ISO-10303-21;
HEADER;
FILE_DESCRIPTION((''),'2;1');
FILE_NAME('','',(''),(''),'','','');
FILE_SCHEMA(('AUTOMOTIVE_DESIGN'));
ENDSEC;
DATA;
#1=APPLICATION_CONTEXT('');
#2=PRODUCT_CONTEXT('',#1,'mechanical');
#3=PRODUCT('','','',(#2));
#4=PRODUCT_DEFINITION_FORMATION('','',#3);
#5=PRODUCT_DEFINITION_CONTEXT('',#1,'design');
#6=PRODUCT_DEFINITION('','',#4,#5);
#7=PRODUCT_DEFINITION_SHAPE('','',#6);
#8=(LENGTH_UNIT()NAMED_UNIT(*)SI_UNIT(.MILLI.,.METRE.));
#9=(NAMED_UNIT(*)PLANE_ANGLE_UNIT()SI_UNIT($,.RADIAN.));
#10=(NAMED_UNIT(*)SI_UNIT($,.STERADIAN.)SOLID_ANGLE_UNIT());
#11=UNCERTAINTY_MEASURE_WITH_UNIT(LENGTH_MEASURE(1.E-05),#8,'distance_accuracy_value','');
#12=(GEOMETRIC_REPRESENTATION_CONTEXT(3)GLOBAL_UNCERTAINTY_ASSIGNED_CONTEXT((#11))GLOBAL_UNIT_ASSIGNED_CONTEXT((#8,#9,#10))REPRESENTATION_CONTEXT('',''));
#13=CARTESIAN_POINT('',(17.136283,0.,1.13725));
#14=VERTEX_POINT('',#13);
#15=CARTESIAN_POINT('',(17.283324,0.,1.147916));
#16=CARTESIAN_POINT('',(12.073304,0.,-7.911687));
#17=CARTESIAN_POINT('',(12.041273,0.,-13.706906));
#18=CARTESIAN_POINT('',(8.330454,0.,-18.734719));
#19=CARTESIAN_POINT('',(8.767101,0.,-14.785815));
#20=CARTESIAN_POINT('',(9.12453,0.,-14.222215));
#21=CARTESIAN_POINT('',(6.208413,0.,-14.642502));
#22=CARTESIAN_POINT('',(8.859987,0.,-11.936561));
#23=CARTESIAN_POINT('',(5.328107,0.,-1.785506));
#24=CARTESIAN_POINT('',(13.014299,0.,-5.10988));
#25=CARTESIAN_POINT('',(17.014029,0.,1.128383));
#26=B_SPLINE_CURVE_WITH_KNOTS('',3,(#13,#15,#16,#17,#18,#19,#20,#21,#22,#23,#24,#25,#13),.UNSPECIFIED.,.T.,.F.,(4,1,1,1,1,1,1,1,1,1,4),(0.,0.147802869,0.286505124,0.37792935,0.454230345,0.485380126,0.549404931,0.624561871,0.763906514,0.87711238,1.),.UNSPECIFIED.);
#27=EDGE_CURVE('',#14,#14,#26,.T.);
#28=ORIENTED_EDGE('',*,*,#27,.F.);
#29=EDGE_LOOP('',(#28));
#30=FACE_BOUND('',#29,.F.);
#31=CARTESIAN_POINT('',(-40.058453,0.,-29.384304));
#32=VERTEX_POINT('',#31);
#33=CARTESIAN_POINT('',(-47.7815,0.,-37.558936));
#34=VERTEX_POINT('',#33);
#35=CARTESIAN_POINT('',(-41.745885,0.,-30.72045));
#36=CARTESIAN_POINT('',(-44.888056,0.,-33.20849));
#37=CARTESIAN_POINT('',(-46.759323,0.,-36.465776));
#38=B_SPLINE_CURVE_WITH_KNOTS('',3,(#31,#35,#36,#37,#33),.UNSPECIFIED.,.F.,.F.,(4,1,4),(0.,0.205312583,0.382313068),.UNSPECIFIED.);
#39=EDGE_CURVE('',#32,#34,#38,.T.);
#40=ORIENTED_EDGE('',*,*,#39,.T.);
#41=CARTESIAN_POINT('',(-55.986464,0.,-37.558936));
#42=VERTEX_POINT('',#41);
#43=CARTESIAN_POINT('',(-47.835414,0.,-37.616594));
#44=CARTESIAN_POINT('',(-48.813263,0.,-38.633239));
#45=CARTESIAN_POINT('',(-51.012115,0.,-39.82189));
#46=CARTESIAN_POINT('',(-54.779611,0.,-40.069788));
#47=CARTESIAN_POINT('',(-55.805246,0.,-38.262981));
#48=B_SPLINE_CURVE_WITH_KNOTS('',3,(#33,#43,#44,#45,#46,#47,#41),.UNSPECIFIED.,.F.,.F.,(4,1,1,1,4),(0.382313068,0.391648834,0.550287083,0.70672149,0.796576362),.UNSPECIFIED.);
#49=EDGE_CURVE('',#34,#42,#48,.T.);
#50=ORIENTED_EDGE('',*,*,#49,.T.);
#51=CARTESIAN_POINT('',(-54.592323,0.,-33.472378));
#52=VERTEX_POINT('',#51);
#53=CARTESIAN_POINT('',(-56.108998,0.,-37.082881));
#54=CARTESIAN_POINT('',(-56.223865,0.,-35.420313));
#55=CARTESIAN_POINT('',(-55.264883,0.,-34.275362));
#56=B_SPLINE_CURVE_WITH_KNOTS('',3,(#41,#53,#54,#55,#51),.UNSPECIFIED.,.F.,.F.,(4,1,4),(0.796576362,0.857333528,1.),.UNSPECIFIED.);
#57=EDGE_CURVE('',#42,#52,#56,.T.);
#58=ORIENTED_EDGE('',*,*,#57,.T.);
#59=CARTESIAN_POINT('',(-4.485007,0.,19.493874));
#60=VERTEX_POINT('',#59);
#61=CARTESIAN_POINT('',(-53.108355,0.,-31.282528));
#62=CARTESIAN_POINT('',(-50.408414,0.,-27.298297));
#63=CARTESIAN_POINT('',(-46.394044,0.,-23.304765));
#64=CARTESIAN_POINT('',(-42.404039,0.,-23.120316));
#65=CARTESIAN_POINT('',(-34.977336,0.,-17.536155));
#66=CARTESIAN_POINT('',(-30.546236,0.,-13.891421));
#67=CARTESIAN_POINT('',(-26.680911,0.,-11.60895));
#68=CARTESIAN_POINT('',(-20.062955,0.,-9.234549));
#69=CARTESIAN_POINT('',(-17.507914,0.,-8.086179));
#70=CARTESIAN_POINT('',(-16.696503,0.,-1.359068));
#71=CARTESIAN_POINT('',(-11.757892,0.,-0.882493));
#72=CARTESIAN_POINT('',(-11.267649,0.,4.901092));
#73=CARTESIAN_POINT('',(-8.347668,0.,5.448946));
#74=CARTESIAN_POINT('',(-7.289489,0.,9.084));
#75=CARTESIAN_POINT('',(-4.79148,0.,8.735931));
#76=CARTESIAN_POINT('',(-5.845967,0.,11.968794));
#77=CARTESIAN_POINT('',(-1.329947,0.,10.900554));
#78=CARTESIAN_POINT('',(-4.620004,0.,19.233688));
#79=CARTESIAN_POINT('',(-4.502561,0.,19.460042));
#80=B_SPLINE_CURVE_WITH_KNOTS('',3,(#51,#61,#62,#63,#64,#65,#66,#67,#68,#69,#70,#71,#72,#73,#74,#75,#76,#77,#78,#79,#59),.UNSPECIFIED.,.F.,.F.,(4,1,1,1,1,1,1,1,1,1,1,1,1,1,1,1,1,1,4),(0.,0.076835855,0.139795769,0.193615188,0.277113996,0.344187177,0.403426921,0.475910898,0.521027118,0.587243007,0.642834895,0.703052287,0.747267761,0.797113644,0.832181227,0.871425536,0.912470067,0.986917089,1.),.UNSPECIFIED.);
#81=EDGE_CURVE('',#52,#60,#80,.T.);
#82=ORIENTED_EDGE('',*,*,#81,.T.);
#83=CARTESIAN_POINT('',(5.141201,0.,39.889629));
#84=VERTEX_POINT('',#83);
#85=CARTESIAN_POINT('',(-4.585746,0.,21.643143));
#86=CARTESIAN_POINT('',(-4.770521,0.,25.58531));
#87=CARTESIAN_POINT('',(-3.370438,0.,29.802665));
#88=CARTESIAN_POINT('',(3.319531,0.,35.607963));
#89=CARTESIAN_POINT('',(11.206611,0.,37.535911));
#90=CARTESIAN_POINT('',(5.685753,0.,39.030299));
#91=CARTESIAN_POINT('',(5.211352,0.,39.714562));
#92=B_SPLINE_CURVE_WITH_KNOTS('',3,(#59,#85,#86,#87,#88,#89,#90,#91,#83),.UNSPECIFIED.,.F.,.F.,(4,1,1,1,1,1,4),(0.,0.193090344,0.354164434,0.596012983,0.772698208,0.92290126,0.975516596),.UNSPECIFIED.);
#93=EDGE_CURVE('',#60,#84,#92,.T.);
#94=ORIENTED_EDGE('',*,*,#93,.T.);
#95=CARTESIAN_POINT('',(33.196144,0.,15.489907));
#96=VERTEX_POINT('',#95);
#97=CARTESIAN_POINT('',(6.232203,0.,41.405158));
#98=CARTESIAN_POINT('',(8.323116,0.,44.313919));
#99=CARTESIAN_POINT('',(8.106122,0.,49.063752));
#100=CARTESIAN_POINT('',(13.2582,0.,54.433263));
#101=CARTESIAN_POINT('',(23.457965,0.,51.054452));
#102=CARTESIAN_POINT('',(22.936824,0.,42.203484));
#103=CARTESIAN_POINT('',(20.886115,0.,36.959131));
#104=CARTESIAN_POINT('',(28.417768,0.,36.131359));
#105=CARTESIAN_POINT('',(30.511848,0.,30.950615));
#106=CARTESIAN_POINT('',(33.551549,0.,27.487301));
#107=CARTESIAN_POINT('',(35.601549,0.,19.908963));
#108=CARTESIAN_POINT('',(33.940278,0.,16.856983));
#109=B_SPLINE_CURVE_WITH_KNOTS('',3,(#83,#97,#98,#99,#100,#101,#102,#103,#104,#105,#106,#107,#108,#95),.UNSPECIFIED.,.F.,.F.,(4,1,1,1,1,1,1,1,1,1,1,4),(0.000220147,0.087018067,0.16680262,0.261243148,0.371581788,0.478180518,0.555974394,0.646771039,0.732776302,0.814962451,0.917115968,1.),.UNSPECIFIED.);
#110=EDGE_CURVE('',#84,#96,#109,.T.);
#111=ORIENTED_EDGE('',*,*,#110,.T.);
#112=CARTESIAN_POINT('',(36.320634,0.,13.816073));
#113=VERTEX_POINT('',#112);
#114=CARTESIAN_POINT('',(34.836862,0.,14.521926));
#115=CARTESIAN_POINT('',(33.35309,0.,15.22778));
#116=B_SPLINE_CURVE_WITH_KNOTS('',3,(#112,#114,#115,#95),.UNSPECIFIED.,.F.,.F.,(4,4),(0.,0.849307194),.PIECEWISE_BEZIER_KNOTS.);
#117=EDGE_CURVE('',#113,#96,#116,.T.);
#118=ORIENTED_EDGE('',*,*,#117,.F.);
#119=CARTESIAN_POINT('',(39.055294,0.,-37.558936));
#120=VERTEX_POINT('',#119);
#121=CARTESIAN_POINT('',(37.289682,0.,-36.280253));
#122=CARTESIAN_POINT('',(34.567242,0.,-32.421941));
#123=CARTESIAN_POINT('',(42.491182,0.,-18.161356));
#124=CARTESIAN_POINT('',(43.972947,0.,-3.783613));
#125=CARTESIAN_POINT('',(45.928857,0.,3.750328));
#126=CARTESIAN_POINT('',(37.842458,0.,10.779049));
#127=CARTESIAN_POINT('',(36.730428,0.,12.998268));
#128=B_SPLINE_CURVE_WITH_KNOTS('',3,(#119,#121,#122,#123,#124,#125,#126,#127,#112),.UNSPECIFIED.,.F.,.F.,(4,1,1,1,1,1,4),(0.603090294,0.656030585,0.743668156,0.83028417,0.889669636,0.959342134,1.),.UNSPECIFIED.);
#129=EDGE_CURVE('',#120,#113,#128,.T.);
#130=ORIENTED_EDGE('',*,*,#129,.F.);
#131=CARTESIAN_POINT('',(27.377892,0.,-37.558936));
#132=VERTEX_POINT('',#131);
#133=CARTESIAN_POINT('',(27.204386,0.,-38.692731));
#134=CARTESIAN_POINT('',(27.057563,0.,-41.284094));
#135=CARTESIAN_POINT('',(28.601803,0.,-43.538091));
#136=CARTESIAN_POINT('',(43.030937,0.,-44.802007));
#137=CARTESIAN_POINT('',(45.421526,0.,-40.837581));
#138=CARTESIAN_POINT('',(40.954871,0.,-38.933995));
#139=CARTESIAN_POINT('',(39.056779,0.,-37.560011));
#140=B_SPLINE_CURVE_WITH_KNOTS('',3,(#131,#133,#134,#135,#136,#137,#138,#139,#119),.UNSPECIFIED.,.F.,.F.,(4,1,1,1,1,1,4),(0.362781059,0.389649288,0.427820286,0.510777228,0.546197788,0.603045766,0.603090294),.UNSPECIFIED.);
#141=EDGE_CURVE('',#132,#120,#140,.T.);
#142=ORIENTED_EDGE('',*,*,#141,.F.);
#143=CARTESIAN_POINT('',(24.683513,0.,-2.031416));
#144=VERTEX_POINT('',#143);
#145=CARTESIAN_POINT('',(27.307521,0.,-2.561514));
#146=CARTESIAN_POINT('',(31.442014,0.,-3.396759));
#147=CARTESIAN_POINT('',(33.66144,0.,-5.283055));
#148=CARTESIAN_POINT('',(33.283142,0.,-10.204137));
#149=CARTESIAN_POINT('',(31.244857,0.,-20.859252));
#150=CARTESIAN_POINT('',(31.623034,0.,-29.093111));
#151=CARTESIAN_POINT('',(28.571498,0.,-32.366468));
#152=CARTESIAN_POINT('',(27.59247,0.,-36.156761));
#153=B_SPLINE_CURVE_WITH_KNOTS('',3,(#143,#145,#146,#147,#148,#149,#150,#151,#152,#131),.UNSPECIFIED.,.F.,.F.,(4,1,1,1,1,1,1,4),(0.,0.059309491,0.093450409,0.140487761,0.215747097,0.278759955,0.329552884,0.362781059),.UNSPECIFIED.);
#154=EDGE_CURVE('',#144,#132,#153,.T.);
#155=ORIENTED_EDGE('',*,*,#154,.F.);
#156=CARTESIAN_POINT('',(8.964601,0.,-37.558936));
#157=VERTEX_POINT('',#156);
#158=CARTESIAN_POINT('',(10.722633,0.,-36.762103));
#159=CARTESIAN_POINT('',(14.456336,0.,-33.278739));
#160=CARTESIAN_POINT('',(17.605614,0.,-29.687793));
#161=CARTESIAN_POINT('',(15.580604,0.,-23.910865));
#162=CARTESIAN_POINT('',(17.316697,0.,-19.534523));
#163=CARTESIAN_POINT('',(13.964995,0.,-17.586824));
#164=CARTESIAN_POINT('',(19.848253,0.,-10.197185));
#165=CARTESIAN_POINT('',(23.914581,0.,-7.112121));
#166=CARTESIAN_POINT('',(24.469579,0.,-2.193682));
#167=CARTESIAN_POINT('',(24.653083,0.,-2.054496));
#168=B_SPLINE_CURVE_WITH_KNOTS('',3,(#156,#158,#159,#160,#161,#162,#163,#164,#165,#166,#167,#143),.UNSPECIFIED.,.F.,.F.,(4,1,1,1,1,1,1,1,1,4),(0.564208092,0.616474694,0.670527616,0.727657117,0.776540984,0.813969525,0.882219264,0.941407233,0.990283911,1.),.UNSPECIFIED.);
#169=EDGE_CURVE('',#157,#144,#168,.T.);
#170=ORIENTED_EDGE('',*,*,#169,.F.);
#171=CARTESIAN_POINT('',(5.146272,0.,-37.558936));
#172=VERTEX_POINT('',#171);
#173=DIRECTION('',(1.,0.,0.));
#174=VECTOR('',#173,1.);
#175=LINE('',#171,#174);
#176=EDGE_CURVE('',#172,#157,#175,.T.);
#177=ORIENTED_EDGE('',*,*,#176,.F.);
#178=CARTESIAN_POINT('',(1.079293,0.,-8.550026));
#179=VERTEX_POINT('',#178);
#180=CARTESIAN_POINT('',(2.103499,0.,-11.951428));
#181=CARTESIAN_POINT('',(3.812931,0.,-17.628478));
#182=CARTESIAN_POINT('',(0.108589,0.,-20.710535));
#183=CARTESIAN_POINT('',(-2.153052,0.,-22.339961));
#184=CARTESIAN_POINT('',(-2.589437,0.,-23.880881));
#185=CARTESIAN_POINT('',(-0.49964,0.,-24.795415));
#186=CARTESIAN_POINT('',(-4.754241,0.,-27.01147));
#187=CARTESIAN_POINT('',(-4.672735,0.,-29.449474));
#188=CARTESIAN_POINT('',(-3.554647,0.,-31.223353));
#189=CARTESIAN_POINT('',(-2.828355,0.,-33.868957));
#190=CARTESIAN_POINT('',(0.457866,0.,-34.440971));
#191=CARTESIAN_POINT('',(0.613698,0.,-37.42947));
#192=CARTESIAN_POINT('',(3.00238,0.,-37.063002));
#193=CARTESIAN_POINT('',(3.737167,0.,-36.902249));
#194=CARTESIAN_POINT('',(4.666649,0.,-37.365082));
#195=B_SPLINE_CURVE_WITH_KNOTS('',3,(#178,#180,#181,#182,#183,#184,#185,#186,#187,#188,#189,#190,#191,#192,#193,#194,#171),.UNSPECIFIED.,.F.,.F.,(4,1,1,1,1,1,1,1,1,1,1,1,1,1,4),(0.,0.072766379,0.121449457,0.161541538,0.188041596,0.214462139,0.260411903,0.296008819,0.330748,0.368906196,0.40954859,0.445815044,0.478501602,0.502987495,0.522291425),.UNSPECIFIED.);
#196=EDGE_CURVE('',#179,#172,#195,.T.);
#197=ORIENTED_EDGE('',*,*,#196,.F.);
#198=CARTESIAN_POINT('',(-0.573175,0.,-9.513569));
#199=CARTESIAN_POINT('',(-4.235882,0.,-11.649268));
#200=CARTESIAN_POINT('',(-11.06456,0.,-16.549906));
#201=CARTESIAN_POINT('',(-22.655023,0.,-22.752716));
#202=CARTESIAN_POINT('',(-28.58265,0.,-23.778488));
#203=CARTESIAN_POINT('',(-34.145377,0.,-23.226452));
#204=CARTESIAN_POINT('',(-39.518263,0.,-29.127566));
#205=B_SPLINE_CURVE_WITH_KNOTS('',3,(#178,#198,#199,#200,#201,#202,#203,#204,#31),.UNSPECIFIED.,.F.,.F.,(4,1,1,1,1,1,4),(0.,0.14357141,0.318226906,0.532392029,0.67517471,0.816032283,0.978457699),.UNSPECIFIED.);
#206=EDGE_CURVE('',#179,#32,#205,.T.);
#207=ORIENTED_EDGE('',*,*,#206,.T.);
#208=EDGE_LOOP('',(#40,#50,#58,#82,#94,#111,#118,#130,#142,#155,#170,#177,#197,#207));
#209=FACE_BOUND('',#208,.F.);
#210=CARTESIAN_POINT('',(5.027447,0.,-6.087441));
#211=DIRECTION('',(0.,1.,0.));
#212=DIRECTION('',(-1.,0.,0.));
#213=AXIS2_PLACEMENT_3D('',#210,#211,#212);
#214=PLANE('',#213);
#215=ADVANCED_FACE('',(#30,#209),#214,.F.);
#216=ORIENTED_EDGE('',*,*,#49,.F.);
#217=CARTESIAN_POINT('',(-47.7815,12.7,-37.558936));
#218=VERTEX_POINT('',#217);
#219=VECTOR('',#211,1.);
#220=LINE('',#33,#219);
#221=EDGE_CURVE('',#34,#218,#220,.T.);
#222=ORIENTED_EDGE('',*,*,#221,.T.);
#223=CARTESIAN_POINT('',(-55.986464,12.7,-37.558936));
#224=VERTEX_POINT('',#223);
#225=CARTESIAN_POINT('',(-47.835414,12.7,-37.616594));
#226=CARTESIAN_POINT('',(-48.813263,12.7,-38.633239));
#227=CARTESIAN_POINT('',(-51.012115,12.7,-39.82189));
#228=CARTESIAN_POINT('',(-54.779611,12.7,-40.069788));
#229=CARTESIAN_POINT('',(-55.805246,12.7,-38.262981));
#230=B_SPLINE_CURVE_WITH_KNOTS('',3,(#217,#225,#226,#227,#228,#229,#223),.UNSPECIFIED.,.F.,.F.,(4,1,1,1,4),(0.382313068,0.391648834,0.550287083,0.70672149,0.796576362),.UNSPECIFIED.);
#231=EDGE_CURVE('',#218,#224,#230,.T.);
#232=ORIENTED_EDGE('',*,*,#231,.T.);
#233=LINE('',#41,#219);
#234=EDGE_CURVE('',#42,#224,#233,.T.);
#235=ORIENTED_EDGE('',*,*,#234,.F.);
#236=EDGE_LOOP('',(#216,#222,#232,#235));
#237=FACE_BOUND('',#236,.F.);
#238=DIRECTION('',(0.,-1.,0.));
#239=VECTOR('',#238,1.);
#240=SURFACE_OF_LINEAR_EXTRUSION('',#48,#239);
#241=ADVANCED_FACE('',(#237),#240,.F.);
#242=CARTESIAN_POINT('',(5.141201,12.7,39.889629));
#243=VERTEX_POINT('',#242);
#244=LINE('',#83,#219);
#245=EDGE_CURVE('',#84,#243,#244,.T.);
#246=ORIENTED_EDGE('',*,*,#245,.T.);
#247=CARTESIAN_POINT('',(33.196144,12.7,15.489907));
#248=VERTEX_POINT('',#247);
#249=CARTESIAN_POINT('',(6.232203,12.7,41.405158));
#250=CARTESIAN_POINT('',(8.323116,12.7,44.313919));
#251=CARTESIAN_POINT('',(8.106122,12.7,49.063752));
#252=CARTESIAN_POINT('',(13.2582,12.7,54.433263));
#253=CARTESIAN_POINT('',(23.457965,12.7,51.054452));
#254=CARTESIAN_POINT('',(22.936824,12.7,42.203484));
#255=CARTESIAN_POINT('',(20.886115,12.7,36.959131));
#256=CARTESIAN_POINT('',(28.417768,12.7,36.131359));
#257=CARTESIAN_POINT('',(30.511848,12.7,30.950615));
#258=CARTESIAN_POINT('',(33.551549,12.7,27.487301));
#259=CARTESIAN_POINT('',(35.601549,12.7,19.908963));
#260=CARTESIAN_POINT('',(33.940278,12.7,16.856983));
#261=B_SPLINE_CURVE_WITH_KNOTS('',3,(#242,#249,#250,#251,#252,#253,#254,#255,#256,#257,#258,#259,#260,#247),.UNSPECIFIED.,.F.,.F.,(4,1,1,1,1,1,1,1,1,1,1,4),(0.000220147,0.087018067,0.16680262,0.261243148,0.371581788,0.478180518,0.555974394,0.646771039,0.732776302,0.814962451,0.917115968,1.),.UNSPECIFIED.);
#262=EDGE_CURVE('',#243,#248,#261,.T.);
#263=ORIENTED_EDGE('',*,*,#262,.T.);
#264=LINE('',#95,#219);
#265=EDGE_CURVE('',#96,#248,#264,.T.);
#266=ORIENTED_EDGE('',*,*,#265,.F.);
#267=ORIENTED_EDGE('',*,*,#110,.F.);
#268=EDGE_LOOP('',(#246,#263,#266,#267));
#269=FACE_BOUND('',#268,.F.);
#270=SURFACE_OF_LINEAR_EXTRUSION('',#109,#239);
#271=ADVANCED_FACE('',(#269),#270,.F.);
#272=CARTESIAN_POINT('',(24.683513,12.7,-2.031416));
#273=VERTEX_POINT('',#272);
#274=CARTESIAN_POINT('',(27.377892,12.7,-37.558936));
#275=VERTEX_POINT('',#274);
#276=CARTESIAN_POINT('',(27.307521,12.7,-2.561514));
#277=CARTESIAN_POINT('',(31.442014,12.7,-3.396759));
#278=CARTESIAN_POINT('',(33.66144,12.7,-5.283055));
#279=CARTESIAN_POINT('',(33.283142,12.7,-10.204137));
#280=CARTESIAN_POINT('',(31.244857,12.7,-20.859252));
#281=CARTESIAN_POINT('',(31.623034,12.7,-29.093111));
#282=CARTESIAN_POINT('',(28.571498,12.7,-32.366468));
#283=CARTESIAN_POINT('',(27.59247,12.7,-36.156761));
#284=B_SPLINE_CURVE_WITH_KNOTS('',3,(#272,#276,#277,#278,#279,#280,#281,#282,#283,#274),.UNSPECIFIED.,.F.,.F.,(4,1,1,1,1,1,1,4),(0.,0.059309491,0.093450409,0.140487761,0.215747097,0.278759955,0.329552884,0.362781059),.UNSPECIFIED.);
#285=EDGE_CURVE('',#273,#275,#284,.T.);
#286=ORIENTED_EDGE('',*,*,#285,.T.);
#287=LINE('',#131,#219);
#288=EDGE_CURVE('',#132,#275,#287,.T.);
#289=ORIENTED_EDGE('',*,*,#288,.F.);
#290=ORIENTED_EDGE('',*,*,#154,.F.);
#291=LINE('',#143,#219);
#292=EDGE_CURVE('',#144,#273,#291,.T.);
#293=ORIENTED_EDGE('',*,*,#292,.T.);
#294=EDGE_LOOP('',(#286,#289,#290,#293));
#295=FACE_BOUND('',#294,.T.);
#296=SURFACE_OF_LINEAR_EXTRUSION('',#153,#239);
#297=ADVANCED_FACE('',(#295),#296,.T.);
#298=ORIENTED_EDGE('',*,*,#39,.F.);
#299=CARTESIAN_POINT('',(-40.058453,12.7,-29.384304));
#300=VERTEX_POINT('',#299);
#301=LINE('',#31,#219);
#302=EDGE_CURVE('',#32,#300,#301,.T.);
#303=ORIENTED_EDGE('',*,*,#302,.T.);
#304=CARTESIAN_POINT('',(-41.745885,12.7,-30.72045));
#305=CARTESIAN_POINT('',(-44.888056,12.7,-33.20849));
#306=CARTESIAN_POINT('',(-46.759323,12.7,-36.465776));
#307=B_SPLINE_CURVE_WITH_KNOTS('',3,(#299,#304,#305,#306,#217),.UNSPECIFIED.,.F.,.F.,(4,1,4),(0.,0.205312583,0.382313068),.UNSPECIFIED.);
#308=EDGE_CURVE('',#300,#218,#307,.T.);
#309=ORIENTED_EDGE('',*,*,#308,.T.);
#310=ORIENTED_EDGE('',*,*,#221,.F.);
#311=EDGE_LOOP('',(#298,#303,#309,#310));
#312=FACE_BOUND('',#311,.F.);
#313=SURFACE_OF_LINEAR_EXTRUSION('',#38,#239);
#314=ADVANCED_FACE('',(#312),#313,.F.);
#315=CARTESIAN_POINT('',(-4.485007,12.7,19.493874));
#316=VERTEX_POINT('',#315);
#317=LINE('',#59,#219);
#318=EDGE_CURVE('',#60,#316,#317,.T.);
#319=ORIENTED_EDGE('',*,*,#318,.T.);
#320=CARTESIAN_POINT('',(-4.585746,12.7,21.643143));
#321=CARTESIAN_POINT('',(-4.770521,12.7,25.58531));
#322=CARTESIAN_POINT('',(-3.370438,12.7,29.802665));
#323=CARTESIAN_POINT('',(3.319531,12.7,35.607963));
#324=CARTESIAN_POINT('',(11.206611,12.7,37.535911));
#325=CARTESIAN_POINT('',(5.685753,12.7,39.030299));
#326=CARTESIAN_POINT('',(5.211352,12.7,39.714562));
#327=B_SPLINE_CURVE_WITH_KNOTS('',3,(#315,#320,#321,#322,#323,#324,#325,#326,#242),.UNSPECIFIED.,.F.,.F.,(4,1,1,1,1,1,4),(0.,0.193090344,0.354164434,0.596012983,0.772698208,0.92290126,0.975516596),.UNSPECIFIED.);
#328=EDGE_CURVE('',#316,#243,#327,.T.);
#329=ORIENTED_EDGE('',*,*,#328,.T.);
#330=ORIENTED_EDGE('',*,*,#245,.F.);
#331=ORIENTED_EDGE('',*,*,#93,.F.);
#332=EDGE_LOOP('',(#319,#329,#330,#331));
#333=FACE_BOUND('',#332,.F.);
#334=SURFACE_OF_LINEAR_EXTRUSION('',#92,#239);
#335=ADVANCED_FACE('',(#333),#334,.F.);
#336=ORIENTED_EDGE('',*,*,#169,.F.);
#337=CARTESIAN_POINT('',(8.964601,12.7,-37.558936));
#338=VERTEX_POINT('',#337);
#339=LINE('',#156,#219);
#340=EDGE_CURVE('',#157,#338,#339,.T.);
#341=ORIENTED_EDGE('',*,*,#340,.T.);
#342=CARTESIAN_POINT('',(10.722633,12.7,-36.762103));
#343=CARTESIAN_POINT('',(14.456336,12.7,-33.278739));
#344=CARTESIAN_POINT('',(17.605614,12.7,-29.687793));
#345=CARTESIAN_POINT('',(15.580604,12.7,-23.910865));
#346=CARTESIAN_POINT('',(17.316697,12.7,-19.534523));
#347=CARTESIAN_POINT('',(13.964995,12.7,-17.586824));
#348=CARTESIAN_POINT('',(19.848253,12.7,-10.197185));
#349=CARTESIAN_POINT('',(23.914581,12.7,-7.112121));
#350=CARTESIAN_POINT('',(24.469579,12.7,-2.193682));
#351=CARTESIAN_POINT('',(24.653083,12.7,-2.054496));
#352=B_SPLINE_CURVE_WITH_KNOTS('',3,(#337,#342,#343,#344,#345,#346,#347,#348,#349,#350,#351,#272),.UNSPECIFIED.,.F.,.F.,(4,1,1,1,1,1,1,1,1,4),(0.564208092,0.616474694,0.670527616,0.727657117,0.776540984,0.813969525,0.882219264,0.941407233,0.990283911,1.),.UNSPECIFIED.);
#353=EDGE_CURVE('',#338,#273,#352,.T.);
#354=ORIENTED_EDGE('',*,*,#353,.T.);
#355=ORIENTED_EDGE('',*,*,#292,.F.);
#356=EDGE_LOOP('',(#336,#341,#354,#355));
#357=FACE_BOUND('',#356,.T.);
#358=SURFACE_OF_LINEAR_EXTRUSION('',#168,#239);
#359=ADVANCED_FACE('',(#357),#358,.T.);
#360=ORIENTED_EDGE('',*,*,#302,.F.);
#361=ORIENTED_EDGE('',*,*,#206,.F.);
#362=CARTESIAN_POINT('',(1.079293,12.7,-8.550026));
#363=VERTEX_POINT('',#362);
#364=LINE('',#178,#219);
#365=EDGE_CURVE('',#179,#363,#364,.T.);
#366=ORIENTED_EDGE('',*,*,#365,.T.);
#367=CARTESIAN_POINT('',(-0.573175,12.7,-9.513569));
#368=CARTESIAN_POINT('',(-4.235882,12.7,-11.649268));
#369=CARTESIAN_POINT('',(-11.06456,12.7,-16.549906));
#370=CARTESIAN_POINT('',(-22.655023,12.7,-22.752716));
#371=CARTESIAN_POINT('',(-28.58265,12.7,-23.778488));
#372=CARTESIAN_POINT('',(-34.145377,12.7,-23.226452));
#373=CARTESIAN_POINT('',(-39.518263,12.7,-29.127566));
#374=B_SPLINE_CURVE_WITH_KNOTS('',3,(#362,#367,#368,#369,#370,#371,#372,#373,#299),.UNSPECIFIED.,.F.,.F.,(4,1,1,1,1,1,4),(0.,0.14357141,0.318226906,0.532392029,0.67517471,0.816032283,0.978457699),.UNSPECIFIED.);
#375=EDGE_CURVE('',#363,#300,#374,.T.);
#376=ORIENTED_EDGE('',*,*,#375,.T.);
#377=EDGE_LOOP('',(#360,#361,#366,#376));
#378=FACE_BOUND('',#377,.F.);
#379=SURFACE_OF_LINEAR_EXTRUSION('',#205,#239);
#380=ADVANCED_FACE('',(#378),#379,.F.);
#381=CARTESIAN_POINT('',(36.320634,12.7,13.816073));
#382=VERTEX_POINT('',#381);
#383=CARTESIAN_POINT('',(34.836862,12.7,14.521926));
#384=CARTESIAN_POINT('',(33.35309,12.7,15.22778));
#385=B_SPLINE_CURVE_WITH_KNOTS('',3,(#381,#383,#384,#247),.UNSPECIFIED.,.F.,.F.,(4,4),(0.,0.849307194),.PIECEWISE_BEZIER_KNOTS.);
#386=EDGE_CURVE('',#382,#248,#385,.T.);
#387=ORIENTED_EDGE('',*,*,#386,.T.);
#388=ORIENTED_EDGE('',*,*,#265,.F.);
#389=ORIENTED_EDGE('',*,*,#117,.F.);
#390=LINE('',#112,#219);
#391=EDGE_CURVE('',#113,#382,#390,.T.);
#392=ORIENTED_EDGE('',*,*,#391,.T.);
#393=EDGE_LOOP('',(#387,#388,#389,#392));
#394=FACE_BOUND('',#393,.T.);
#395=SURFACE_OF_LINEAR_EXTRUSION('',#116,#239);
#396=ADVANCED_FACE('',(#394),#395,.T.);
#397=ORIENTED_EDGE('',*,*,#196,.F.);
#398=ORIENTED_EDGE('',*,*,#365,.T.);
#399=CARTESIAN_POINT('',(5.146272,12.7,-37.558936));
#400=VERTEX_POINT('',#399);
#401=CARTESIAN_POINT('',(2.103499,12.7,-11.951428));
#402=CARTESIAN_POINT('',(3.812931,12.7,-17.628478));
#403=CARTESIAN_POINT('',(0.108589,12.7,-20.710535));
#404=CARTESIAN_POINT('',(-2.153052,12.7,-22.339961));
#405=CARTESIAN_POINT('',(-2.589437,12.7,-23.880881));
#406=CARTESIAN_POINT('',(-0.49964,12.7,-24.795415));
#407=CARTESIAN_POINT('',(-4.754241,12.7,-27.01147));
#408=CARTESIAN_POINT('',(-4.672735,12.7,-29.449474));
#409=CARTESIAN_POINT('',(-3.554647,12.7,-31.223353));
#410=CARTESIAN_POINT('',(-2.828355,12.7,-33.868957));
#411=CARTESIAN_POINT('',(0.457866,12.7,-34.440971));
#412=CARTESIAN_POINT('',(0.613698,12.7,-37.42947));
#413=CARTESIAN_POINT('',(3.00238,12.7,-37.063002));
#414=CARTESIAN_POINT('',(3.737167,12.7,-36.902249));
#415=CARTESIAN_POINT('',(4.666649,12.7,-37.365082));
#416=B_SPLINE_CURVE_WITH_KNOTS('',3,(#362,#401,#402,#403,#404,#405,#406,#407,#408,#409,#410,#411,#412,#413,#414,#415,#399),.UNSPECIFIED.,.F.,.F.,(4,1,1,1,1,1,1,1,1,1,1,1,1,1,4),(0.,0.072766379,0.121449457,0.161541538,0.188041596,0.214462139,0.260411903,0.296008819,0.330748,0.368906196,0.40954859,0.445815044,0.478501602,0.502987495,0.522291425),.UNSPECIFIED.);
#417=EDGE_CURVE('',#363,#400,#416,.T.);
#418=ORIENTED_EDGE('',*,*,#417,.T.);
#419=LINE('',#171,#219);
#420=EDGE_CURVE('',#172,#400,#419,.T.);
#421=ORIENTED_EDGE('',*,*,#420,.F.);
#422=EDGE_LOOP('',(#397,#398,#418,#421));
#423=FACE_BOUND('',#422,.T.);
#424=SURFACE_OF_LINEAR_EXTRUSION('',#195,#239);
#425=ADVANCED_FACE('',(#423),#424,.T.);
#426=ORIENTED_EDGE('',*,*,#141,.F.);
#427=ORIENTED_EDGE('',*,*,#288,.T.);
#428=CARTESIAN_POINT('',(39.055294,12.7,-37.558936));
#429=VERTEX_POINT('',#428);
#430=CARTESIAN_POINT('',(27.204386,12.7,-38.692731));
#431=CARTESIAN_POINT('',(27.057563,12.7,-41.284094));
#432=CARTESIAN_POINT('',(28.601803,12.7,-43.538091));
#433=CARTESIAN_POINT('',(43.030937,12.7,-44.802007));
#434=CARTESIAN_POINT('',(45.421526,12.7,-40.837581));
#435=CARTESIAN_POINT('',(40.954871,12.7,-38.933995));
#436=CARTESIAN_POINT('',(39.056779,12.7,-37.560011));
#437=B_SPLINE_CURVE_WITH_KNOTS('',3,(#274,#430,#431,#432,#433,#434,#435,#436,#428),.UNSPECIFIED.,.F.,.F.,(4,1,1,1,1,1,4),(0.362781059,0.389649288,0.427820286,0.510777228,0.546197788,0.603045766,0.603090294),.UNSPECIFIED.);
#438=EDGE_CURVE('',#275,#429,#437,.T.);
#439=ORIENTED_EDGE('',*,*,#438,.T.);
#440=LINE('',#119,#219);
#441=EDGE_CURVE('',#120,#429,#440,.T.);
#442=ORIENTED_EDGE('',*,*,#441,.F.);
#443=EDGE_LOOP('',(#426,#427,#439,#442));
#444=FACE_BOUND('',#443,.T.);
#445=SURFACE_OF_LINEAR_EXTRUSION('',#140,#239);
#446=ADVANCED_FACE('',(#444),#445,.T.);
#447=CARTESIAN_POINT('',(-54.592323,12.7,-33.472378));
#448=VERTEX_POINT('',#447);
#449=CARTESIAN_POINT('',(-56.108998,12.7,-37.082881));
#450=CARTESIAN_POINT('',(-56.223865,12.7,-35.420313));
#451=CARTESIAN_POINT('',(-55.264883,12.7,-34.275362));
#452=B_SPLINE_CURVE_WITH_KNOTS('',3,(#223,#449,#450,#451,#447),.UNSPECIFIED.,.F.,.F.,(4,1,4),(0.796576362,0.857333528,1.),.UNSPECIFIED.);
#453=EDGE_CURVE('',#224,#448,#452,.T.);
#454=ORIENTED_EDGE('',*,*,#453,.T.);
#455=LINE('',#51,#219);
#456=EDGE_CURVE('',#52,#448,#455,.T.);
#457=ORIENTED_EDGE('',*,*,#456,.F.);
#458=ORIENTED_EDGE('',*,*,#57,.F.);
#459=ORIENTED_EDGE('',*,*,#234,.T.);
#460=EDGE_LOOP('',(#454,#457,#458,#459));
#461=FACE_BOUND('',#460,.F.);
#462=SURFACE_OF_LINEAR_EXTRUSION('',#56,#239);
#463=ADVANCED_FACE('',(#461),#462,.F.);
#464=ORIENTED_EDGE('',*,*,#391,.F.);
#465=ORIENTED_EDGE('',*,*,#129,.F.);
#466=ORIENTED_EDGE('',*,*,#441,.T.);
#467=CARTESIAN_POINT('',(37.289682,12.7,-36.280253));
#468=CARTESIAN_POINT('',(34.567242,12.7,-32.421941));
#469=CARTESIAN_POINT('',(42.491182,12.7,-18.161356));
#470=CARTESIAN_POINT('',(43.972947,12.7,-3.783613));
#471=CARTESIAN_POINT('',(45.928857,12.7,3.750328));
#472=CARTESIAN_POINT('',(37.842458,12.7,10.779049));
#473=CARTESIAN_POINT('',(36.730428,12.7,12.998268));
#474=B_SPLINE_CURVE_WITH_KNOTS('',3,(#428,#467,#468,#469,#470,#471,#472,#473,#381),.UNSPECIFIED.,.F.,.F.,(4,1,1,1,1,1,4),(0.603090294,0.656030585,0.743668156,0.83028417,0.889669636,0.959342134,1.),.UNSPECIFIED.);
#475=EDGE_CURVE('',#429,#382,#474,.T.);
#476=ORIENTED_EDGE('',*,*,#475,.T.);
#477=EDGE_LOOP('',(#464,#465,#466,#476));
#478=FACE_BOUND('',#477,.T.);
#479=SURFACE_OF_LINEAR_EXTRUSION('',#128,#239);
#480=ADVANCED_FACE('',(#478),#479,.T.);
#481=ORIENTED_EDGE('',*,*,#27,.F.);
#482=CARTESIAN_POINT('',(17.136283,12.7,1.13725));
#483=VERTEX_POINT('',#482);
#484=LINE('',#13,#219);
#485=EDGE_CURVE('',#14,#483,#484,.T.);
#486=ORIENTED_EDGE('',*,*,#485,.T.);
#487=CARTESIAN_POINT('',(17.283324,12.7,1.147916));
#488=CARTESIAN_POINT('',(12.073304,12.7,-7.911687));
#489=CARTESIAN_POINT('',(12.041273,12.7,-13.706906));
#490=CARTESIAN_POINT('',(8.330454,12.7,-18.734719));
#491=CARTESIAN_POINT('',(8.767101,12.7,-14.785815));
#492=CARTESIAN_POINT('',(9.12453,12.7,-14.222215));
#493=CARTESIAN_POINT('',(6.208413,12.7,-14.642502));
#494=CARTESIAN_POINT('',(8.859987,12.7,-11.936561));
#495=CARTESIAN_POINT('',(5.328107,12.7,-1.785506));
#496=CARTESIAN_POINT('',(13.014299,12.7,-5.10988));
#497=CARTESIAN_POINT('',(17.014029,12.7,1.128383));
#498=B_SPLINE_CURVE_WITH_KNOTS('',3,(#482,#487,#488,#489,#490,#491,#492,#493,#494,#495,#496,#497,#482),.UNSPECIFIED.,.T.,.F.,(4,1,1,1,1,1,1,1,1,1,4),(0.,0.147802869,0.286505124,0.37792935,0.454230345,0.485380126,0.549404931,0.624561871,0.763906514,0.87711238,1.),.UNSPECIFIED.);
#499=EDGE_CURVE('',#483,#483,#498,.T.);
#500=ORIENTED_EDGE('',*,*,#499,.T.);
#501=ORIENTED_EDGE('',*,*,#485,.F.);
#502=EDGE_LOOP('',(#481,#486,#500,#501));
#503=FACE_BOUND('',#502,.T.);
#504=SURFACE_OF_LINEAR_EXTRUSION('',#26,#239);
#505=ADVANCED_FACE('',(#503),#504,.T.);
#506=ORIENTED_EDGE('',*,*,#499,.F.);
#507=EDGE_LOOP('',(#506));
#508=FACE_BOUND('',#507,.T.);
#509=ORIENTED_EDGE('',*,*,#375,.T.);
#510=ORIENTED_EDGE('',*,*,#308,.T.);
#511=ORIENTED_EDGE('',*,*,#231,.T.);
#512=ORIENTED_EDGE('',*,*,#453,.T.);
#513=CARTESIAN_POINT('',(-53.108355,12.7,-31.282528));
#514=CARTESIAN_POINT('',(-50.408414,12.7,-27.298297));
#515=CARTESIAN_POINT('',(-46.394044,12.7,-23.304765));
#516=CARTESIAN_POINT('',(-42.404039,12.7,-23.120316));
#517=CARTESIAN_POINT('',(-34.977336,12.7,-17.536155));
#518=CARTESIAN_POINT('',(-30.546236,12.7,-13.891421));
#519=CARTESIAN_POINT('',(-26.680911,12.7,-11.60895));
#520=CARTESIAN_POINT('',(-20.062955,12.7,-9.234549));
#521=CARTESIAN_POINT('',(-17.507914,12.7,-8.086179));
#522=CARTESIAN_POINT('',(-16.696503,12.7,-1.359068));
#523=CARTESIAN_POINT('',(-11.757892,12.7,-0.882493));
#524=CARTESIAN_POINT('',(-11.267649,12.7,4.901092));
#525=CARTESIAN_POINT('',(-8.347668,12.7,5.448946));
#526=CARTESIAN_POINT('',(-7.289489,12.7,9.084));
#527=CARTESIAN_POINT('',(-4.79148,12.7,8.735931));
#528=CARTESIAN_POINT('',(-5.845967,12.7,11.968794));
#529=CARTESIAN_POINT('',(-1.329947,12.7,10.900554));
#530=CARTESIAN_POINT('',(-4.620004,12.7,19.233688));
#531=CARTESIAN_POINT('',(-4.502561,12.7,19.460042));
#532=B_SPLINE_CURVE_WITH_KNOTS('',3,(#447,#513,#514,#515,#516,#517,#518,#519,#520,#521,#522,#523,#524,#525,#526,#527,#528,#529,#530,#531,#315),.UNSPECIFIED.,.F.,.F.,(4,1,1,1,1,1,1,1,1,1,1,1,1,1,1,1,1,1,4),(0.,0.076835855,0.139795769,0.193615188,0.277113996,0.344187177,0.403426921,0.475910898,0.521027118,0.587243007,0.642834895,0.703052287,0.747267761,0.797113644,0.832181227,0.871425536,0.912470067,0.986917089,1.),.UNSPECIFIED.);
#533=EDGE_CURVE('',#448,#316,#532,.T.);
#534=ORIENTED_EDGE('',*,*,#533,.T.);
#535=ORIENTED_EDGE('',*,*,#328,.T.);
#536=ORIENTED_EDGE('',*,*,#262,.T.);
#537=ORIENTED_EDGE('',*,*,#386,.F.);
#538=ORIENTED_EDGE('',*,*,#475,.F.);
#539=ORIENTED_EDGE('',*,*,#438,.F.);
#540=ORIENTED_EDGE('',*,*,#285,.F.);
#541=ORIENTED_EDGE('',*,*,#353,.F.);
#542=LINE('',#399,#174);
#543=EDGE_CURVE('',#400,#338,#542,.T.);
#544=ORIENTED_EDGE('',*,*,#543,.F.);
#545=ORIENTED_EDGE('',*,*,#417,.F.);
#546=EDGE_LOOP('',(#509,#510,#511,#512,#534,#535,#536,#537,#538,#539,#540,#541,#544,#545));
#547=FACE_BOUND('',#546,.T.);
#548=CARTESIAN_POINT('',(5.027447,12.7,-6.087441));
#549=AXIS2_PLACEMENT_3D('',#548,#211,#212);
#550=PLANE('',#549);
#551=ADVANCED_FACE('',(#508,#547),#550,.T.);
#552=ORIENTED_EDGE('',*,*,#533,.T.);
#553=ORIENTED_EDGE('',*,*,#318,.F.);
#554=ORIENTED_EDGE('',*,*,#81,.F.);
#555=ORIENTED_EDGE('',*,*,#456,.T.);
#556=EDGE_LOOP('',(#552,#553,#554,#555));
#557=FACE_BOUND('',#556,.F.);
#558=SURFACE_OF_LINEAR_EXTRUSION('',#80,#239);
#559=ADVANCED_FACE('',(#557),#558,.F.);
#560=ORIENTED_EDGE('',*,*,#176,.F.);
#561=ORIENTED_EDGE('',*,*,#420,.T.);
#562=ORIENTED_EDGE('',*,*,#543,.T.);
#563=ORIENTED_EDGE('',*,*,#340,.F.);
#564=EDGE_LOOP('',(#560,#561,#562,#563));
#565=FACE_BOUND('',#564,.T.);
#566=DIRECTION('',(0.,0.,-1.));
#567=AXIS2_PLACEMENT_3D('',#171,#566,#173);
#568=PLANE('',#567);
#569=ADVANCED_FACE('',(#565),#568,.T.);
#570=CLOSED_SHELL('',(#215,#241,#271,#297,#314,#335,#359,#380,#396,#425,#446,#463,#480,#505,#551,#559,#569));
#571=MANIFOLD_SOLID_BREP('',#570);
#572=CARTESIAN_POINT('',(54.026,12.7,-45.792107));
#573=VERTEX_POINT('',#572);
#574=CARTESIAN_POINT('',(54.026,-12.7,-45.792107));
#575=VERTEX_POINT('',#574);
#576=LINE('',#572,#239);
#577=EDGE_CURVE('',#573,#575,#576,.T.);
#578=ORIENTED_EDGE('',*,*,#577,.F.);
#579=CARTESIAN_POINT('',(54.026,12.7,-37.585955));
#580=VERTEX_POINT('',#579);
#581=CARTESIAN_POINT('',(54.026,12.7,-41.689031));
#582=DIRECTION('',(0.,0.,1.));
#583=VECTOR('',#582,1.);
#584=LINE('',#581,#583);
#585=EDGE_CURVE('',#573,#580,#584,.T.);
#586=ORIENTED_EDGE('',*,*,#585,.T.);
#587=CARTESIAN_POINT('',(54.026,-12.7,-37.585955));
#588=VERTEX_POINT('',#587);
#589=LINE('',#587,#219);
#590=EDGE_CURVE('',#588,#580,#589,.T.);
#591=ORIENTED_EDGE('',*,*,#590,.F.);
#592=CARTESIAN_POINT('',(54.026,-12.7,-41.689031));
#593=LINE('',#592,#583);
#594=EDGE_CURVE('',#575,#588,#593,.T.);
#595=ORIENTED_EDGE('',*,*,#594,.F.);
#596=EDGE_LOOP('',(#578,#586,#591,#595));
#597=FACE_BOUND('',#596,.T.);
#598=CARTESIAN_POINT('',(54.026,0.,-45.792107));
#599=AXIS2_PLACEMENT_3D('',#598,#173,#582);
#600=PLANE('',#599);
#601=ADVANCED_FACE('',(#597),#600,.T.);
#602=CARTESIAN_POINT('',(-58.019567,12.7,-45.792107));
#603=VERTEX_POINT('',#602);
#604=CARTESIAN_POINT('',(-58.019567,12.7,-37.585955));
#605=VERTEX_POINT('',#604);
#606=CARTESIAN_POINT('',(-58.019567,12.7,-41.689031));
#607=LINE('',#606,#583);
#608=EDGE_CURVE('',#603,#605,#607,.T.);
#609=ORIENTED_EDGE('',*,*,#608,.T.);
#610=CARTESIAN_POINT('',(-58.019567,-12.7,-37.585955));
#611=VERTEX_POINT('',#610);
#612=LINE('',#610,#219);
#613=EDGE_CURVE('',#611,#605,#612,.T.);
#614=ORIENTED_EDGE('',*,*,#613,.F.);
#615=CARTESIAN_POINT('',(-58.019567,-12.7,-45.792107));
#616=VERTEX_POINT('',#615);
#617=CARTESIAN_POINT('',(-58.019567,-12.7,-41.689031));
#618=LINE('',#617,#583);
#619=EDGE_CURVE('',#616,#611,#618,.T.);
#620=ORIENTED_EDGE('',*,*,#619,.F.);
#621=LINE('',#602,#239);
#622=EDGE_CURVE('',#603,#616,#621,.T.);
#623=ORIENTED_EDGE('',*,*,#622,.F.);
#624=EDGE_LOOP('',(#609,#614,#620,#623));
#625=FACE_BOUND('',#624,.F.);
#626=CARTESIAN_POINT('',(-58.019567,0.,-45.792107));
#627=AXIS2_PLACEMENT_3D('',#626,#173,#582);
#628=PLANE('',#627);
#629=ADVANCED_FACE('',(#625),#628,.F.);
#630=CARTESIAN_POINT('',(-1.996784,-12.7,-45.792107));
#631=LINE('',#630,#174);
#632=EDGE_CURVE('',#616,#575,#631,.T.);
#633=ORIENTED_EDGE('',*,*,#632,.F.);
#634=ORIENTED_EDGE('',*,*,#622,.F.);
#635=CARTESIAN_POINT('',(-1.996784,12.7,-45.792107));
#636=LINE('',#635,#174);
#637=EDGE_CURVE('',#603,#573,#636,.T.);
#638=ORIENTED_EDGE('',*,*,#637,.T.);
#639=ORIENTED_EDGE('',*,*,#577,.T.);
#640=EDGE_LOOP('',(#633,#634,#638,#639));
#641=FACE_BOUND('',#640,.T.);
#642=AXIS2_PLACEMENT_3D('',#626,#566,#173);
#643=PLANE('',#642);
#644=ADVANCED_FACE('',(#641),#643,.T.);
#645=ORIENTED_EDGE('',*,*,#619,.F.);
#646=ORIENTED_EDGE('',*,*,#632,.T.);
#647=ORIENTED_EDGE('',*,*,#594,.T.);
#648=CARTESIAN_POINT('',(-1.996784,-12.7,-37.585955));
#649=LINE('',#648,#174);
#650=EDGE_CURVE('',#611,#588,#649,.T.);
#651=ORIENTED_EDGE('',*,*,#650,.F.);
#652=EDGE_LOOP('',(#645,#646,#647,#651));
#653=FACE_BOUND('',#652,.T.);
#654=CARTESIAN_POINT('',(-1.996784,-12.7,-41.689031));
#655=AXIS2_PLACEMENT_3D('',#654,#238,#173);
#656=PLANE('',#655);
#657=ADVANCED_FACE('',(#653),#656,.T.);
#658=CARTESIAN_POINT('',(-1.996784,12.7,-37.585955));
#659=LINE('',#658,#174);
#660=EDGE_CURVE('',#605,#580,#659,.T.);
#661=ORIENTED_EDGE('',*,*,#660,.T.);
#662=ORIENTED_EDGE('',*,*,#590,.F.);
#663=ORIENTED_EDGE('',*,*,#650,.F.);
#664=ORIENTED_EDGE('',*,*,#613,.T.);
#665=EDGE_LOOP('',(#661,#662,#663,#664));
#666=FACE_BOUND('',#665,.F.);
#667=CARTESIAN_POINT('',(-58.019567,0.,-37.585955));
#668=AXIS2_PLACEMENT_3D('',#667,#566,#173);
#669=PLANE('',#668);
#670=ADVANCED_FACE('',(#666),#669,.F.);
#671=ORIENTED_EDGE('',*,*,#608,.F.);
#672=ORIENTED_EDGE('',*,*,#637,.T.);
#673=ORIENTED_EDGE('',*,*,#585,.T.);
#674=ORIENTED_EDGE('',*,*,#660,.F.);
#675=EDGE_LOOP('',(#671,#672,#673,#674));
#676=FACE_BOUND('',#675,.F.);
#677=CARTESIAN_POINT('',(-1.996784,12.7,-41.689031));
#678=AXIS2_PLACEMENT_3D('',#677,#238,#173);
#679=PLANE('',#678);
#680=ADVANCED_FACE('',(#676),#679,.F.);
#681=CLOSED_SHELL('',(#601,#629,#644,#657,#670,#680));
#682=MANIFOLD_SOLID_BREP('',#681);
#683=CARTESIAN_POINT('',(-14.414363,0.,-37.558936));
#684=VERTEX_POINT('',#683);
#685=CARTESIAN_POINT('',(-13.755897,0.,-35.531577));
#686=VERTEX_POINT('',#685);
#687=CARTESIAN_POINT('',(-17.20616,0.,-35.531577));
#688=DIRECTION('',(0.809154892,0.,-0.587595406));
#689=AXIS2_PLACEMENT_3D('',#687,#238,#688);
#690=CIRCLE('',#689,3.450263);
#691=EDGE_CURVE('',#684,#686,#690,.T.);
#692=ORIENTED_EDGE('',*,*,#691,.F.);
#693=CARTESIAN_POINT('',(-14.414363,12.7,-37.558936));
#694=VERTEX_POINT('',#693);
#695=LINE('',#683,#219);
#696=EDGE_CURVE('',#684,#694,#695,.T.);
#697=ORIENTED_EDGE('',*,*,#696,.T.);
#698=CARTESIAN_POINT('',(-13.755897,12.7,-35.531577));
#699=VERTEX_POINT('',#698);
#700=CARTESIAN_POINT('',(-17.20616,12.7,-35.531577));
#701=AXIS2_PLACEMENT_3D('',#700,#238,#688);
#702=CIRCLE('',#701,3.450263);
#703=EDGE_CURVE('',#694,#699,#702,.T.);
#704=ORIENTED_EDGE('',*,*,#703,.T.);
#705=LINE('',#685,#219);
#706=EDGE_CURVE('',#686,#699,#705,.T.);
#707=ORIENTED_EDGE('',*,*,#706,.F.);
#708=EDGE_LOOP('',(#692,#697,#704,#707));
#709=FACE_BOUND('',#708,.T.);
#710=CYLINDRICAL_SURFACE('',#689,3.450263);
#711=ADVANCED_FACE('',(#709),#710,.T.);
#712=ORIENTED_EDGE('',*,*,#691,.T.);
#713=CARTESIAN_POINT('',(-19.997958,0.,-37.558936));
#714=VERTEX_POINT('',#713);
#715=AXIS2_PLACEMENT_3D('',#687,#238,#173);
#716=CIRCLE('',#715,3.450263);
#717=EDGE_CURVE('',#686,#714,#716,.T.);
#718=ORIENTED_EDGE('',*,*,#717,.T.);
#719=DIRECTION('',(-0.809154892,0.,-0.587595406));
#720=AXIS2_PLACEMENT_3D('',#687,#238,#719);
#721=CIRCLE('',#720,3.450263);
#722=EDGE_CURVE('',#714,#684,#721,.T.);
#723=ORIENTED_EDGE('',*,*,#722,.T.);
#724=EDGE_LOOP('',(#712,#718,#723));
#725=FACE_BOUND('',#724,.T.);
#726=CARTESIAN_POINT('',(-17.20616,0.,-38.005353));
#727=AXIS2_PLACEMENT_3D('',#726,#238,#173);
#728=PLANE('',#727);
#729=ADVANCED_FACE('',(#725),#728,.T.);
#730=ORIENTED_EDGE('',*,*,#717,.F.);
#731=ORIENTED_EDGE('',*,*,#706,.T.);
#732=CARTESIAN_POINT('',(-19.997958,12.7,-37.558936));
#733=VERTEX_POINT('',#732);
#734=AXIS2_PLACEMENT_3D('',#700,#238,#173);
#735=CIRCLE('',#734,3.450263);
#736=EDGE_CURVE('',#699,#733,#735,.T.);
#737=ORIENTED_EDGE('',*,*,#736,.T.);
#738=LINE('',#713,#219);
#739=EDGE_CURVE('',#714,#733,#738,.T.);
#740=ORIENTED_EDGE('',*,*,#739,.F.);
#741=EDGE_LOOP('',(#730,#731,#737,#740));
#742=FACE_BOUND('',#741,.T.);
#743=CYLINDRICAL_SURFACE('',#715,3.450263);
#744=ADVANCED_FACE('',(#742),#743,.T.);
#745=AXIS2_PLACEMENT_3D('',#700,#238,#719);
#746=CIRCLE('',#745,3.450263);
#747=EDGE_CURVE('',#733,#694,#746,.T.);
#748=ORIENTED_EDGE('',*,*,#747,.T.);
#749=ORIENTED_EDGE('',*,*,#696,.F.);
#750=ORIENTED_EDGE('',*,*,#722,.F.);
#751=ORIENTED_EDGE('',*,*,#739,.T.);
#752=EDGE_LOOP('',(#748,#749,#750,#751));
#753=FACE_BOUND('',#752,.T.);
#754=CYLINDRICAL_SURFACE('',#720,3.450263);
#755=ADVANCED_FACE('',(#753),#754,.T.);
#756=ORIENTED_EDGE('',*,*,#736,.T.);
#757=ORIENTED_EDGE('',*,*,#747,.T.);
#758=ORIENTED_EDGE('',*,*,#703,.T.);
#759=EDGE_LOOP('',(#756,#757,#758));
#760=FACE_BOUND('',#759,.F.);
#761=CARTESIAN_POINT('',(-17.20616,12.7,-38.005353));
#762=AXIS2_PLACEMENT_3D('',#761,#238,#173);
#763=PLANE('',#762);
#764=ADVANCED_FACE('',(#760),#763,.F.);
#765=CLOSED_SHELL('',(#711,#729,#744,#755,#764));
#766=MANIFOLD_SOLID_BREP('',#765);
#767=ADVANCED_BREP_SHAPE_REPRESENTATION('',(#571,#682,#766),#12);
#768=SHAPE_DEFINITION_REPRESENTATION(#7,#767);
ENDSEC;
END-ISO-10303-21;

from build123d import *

# Parameters (mm, degrees)
F1_DEPTH = 12.7
F2_W     = 112.0455674827
F2_H     = 8.2061514258
F3_DEPTH = 12.7


with BuildPart() as f1:
    # F0 (on Front) → F1 (new body)
    with BuildSketch(Plane.XZ):
        with BuildLine():
            Line((-14.4143629315, -37.5589355826), (-19.9979577718, -37.5589355826))
            ThreePointArc((-19.9979577718, -37.5589355826), (-17.2061603516, -38.9818400145), (-14.4143629315, -37.5589355826))
        make_face()
        with BuildLine():
            ThreePointArc((-13.75589706, -35.5315767229), (-18.2719653584, -32.2500562721), (-19.9979577718, -37.5589355826))
            Line((-19.9979577718, -37.5589355826), (-14.4143629315, -37.5589355826))
            ThreePointArc((-14.4143629315, -37.5589355826), (-13.9246399009, -36.5973817297), (-13.75589706, -35.5315767229))
        make_face()
    extrude(amount=-F1_DEPTH)


with BuildPart() as f1b:
    # F0 (on Front) → F1, piece 2 (new body)
    with BuildSketch(Plane.XZ):
        with BuildLine():
            add(Edge.make_bspline(
                [(-54.5923225582, -33.4723778069), (-53.1083554271, -31.2825276965), (-50.4084137498, -27.298296876), (-46.394044258, -23.3047653557), (-42.404039375, -23.1203156628), (-34.9773363215, -17.5361554585), (-30.5462357494, -13.8914205888), (-26.6809112044, -11.6089501617), (-20.0629551545, -9.2345492309), (-17.5079137584, -8.0861788807), (-16.6965034453, -1.3590677462), (-11.7578924438, -0.8824930819), (-11.2676492944, 4.9010918706), (-8.3476677712, 5.4489456304), (-7.2894885812, 9.0839995181), (-4.7914799177, 8.7359306843), (-5.845966834, 11.9687941786), (-1.3299466328, 10.9005539093), (-4.6200038793, 19.2336884509), (-4.5025608653, 19.4600416371), (-4.4850069098, 19.4938741624)],
                knots=[0, 0, 0, 0, 0.0768358548, 0.1397957693, 0.1936151883, 0.2771139962, 0.3441871768, 0.403426921, 0.475910898, 0.5210271176, 0.5872430065, 0.642834895, 0.7030522874, 0.7472677607, 0.7971136436, 0.8321812273, 0.871425536, 0.9124700672, 0.9869170886, 1, 1, 1, 1], degree=3))
            add(Edge.make_bspline(
                [(-55.9864642433, -37.5589355826), (-56.108998451, -37.082881253), (-56.2238651807, -35.4203129421), (-55.2648827471, -34.2753624206), (-54.5923225582, -33.4723778069)],
                knots=[0.7965763622, 0.7965763622, 0.7965763622, 0.7965763622, 0.8573335283, 1, 1, 1, 1], degree=3))
            Line((-55.9864642433, -37.5589355826), (-47.7814999802, -37.5589355826))
            add(Edge.make_bspline(
                [(-40.058452636, -29.384303838), (-41.7458846761, -30.7204497942), (-44.8880560435, -33.2084904777), (-46.7593232749, -36.465776263), (-47.7814999802, -37.5589355826)],
                knots=[0, 0, 0, 0, 0.205312583, 0.3823130677, 0.3823130677, 0.3823130677, 0.3823130677], degree=3))
            add(Edge.make_bspline(
                [(1.0792933172, -8.5500255227), (-0.5731751842, -9.5135686779), (-4.2358816859, -11.6492679522), (-11.0645596679, -16.5499059252), (-22.6550226765, -22.7527161387), (-28.5826496474, -23.7784884437), (-34.145376735, -23.226452454), (-39.518263199, -29.1275656261), (-40.058452636, -29.384303838)],
                knots=[0, 0, 0, 0, 0.1435714105, 0.3182269061, 0.5323920293, 0.6751747097, 0.8160322825, 0.9784576987, 0.9784576987, 0.9784576987, 0.9784576987], degree=3))
            add(Edge.make_bspline(
                [(1.0792933172, -8.5500255227), (2.103498719, -11.9514275677), (3.8129308933, -17.6284783654), (0.1085885984, -20.7105345467), (-2.1530523946, -22.339961238), (-2.5894365363, -23.880881235), (-0.499639519, -24.7954149784), (-4.7542412203, -27.0114701103), (-4.6727353897, -29.4494739025), (-3.5546465577, -31.2233526842), (-2.8283554773, -33.8689572087), (0.4578661422, -34.4409706999), (0.6136984869, -37.4294704734), (3.0023798619, -37.0630017673), (3.737167035, -36.9022490048), (4.6666486482, -37.365082246), (5.1462723601, -37.5589355826)],
                knots=[0, 0, 0, 0, 0.0727663791, 0.1214494568, 0.1615415381, 0.1880415956, 0.2144621387, 0.2604119033, 0.2960088192, 0.330748, 0.3689061963, 0.4095485903, 0.4458150442, 0.4785016018, 0.5029874946, 0.5222914246, 0.5222914246, 0.5222914246, 0.5222914246], degree=3))
            Line((5.1462723601, -37.5589355826), (8.9646007298, -37.5589355826))
            add(Edge.make_bspline(
                [(8.9646007298, -37.5589355826), (10.7226331618, -36.7621029505), (14.4563358766, -33.2787386585), (17.6056140466, -29.6877925416), (15.5806036541, -23.910865349), (17.3166970412, -19.5345229467), (13.9649945175, -17.5868236896), (19.8482525939, -10.1971845029), (23.9145812176, -7.1121214361), (24.4695786682, -2.193682178), (24.6530832733, -2.0544960982), (24.6835127473, -2.0314157009)],
                knots=[0.5642080924, 0.5642080924, 0.5642080924, 0.5642080924, 0.6164746939, 0.6705276156, 0.7276571166, 0.7765409837, 0.8139695245, 0.8822192637, 0.9414072334, 0.9902839111, 1, 1, 1, 1], degree=3))
            add(Edge.make_bspline(
                [(24.6835127473, -2.0314157009), (27.3075211456, -2.5615142665), (31.4420138354, -3.3967587901), (33.6614401175, -5.283054938), (33.2831416781, -10.2041369009), (31.2448574669, -20.8592519496), (31.6230338526, -29.0931107825), (28.5714983989, -32.3664680987), (27.5924699267, -36.1567605238), (27.3778924705, -37.5589355826)],
                knots=[0, 0, 0, 0, 0.059309491, 0.0934504086, 0.1404877608, 0.2157470968, 0.2787599554, 0.3295528839, 0.3627810589, 0.3627810589, 0.3627810589, 0.3627810589], degree=3))
            Line((27.3778924705, -37.5589355826), (39.0552940352, -37.5589355826))
            add(Edge.make_bspline(
                [(39.0552940352, -37.5589355826), (37.2896816031, -36.2802527991), (34.5672421995, -32.4219413518), (42.4911816169, -18.1613555548), (43.9729469379, -3.7836126963), (45.9288573295, 3.7503275456), (37.8424577825, 10.7790491953), (36.7304283751, 12.9982678692), (36.3206341863, 13.8160726056)],
                knots=[0.603090294, 0.603090294, 0.603090294, 0.603090294, 0.6560305846, 0.743668156, 0.8302841698, 0.8896696356, 0.9593421344, 1, 1, 1, 1], degree=3))
            add(Edge.make_bspline(
                [(36.3206341863, 13.8160726056), (34.8368620335, 14.5219264811), (33.3530898807, 15.2277803567), (33.196143806, 15.4899070039)],
                knots=[0, 0, 0, 0, 0.8493071936, 0.8493071936, 0.8493071936, 0.8493071936], degree=3))
            add(Edge.make_bspline(
                [(5.1412005761, 39.8896292045), (6.2322032275, 41.4051575617), (8.3231155149, 44.3139194515), (8.1061219246, 49.0637523329), (13.2582003089, 54.4332632511), (23.4579651981, 51.0544517918), (22.9368238563, 42.2034835805), (20.8861146445, 36.9591309711), (28.4177680977, 36.1313587524), (30.5118482127, 30.950615127), (33.5515491536, 27.487300767), (35.6015488461, 19.9089632145), (33.9402782151, 16.8569831209), (33.196143806, 15.4899070039)],
                knots=[0.000220147, 0.000220147, 0.000220147, 0.000220147, 0.0870180673, 0.1668026204, 0.2612431478, 0.3715817877, 0.4781805179, 0.5559743939, 0.6467710387, 0.7327763018, 0.8149624505, 0.9171159684, 1, 1, 1, 1], degree=3))
            add(Edge.make_bspline(
                [(-4.4850069098, 19.4938741624), (-4.5857459861, 21.6431427506), (-4.7705206214, 25.5853103229), (-3.3704379368, 29.8026652103), (3.319531325, 35.6079633589), (11.206610678, 37.5359109615), (5.6857531896, 39.0302989621), (5.211351958, 39.7145616865), (5.1412005761, 39.8896292045)],
                knots=[0, 0, 0, 0, 0.1930903442, 0.3541644341, 0.596012983, 0.7726982076, 0.9229012599, 0.9755165958, 0.9755165958, 0.9755165958, 0.9755165958], degree=3))
        make_face()
        with BuildLine():
            add(Edge.make_bspline(
                [(17.1362832189, 1.1372504523), (17.2833237199, 1.1479160932), (12.0733044336, -7.9116866558), (12.0412734025, -13.7069061181), (8.3304541729, -18.73471858), (8.7671009583, -14.7858146458), (9.124530016, -14.2222148206), (6.2084126105, -14.6425024136), (8.8599870742, -11.9365611691), (5.3281073582, -1.7855056508), (13.0142986738, -5.1098802918), (17.0140294539, 1.1283827271), (17.1362832189, 1.1372504523)],
                knots=[0, 0, 0, 0, 0.1478028692, 0.2865051239, 0.3779293495, 0.4542303446, 0.4853801258, 0.549404931, 0.6245618709, 0.7639065135, 0.8771123799, 1, 1, 1, 1], degree=3))
        make_face(mode=Mode.SUBTRACT)
        with BuildLine():
            Line((-47.7814999802, -37.5589355826), (-55.9864642433, -37.5589355826))
            add(Edge.make_bspline(
                [(-47.7814999802, -37.5589355826), (-47.835413975, -37.6165935057), (-48.8132629301, -38.6332387758), (-51.0121148376, -39.8218900416), (-54.77961131, -40.0697875866), (-55.8052461859, -38.2629809458), (-55.9864642433, -37.5589355826)],
                knots=[0.3823130677, 0.3823130677, 0.3823130677, 0.3823130677, 0.3916488344, 0.5502870831, 0.7067214898, 0.7965763622, 0.7965763622, 0.7965763622, 0.7965763622], degree=3))
        make_face()
        with BuildLine():
            add(Edge.make_bspline(
                [(27.3778924705, -37.5589355826), (27.2043856102, -38.6927312582), (27.0575626044, -41.2840942791), (28.6018028826, -43.5380907762), (43.0309374773, -44.8020069615), (45.4215260084, -40.8375811108), (40.95487112, -38.9339953456), (39.0567790783, -37.560011073), (39.0552940352, -37.5589355826)],
                knots=[0.3627810589, 0.3627810589, 0.3627810589, 0.3627810589, 0.3896492882, 0.4278202855, 0.5107772281, 0.5461977877, 0.6030457663, 0.603090294, 0.603090294, 0.603090294, 0.603090294], degree=3))
            Line((39.0552940352, -37.5589355826), (27.3778924705, -37.5589355826))
        make_face()
    extrude(amount=-F1_DEPTH)


with BuildPart() as f3:
    # F2 (on Front) → F3 (new body, symmetric)
    with BuildSketch(Plane.XZ):
        with Locations((-1.9967835397, -41.6890308261)):
            Rectangle(F2_W, F2_H)
    extrude(amount=F3_DEPTH, both=True)


solid = Compound([f1.part, f1b.part, f3.part])
